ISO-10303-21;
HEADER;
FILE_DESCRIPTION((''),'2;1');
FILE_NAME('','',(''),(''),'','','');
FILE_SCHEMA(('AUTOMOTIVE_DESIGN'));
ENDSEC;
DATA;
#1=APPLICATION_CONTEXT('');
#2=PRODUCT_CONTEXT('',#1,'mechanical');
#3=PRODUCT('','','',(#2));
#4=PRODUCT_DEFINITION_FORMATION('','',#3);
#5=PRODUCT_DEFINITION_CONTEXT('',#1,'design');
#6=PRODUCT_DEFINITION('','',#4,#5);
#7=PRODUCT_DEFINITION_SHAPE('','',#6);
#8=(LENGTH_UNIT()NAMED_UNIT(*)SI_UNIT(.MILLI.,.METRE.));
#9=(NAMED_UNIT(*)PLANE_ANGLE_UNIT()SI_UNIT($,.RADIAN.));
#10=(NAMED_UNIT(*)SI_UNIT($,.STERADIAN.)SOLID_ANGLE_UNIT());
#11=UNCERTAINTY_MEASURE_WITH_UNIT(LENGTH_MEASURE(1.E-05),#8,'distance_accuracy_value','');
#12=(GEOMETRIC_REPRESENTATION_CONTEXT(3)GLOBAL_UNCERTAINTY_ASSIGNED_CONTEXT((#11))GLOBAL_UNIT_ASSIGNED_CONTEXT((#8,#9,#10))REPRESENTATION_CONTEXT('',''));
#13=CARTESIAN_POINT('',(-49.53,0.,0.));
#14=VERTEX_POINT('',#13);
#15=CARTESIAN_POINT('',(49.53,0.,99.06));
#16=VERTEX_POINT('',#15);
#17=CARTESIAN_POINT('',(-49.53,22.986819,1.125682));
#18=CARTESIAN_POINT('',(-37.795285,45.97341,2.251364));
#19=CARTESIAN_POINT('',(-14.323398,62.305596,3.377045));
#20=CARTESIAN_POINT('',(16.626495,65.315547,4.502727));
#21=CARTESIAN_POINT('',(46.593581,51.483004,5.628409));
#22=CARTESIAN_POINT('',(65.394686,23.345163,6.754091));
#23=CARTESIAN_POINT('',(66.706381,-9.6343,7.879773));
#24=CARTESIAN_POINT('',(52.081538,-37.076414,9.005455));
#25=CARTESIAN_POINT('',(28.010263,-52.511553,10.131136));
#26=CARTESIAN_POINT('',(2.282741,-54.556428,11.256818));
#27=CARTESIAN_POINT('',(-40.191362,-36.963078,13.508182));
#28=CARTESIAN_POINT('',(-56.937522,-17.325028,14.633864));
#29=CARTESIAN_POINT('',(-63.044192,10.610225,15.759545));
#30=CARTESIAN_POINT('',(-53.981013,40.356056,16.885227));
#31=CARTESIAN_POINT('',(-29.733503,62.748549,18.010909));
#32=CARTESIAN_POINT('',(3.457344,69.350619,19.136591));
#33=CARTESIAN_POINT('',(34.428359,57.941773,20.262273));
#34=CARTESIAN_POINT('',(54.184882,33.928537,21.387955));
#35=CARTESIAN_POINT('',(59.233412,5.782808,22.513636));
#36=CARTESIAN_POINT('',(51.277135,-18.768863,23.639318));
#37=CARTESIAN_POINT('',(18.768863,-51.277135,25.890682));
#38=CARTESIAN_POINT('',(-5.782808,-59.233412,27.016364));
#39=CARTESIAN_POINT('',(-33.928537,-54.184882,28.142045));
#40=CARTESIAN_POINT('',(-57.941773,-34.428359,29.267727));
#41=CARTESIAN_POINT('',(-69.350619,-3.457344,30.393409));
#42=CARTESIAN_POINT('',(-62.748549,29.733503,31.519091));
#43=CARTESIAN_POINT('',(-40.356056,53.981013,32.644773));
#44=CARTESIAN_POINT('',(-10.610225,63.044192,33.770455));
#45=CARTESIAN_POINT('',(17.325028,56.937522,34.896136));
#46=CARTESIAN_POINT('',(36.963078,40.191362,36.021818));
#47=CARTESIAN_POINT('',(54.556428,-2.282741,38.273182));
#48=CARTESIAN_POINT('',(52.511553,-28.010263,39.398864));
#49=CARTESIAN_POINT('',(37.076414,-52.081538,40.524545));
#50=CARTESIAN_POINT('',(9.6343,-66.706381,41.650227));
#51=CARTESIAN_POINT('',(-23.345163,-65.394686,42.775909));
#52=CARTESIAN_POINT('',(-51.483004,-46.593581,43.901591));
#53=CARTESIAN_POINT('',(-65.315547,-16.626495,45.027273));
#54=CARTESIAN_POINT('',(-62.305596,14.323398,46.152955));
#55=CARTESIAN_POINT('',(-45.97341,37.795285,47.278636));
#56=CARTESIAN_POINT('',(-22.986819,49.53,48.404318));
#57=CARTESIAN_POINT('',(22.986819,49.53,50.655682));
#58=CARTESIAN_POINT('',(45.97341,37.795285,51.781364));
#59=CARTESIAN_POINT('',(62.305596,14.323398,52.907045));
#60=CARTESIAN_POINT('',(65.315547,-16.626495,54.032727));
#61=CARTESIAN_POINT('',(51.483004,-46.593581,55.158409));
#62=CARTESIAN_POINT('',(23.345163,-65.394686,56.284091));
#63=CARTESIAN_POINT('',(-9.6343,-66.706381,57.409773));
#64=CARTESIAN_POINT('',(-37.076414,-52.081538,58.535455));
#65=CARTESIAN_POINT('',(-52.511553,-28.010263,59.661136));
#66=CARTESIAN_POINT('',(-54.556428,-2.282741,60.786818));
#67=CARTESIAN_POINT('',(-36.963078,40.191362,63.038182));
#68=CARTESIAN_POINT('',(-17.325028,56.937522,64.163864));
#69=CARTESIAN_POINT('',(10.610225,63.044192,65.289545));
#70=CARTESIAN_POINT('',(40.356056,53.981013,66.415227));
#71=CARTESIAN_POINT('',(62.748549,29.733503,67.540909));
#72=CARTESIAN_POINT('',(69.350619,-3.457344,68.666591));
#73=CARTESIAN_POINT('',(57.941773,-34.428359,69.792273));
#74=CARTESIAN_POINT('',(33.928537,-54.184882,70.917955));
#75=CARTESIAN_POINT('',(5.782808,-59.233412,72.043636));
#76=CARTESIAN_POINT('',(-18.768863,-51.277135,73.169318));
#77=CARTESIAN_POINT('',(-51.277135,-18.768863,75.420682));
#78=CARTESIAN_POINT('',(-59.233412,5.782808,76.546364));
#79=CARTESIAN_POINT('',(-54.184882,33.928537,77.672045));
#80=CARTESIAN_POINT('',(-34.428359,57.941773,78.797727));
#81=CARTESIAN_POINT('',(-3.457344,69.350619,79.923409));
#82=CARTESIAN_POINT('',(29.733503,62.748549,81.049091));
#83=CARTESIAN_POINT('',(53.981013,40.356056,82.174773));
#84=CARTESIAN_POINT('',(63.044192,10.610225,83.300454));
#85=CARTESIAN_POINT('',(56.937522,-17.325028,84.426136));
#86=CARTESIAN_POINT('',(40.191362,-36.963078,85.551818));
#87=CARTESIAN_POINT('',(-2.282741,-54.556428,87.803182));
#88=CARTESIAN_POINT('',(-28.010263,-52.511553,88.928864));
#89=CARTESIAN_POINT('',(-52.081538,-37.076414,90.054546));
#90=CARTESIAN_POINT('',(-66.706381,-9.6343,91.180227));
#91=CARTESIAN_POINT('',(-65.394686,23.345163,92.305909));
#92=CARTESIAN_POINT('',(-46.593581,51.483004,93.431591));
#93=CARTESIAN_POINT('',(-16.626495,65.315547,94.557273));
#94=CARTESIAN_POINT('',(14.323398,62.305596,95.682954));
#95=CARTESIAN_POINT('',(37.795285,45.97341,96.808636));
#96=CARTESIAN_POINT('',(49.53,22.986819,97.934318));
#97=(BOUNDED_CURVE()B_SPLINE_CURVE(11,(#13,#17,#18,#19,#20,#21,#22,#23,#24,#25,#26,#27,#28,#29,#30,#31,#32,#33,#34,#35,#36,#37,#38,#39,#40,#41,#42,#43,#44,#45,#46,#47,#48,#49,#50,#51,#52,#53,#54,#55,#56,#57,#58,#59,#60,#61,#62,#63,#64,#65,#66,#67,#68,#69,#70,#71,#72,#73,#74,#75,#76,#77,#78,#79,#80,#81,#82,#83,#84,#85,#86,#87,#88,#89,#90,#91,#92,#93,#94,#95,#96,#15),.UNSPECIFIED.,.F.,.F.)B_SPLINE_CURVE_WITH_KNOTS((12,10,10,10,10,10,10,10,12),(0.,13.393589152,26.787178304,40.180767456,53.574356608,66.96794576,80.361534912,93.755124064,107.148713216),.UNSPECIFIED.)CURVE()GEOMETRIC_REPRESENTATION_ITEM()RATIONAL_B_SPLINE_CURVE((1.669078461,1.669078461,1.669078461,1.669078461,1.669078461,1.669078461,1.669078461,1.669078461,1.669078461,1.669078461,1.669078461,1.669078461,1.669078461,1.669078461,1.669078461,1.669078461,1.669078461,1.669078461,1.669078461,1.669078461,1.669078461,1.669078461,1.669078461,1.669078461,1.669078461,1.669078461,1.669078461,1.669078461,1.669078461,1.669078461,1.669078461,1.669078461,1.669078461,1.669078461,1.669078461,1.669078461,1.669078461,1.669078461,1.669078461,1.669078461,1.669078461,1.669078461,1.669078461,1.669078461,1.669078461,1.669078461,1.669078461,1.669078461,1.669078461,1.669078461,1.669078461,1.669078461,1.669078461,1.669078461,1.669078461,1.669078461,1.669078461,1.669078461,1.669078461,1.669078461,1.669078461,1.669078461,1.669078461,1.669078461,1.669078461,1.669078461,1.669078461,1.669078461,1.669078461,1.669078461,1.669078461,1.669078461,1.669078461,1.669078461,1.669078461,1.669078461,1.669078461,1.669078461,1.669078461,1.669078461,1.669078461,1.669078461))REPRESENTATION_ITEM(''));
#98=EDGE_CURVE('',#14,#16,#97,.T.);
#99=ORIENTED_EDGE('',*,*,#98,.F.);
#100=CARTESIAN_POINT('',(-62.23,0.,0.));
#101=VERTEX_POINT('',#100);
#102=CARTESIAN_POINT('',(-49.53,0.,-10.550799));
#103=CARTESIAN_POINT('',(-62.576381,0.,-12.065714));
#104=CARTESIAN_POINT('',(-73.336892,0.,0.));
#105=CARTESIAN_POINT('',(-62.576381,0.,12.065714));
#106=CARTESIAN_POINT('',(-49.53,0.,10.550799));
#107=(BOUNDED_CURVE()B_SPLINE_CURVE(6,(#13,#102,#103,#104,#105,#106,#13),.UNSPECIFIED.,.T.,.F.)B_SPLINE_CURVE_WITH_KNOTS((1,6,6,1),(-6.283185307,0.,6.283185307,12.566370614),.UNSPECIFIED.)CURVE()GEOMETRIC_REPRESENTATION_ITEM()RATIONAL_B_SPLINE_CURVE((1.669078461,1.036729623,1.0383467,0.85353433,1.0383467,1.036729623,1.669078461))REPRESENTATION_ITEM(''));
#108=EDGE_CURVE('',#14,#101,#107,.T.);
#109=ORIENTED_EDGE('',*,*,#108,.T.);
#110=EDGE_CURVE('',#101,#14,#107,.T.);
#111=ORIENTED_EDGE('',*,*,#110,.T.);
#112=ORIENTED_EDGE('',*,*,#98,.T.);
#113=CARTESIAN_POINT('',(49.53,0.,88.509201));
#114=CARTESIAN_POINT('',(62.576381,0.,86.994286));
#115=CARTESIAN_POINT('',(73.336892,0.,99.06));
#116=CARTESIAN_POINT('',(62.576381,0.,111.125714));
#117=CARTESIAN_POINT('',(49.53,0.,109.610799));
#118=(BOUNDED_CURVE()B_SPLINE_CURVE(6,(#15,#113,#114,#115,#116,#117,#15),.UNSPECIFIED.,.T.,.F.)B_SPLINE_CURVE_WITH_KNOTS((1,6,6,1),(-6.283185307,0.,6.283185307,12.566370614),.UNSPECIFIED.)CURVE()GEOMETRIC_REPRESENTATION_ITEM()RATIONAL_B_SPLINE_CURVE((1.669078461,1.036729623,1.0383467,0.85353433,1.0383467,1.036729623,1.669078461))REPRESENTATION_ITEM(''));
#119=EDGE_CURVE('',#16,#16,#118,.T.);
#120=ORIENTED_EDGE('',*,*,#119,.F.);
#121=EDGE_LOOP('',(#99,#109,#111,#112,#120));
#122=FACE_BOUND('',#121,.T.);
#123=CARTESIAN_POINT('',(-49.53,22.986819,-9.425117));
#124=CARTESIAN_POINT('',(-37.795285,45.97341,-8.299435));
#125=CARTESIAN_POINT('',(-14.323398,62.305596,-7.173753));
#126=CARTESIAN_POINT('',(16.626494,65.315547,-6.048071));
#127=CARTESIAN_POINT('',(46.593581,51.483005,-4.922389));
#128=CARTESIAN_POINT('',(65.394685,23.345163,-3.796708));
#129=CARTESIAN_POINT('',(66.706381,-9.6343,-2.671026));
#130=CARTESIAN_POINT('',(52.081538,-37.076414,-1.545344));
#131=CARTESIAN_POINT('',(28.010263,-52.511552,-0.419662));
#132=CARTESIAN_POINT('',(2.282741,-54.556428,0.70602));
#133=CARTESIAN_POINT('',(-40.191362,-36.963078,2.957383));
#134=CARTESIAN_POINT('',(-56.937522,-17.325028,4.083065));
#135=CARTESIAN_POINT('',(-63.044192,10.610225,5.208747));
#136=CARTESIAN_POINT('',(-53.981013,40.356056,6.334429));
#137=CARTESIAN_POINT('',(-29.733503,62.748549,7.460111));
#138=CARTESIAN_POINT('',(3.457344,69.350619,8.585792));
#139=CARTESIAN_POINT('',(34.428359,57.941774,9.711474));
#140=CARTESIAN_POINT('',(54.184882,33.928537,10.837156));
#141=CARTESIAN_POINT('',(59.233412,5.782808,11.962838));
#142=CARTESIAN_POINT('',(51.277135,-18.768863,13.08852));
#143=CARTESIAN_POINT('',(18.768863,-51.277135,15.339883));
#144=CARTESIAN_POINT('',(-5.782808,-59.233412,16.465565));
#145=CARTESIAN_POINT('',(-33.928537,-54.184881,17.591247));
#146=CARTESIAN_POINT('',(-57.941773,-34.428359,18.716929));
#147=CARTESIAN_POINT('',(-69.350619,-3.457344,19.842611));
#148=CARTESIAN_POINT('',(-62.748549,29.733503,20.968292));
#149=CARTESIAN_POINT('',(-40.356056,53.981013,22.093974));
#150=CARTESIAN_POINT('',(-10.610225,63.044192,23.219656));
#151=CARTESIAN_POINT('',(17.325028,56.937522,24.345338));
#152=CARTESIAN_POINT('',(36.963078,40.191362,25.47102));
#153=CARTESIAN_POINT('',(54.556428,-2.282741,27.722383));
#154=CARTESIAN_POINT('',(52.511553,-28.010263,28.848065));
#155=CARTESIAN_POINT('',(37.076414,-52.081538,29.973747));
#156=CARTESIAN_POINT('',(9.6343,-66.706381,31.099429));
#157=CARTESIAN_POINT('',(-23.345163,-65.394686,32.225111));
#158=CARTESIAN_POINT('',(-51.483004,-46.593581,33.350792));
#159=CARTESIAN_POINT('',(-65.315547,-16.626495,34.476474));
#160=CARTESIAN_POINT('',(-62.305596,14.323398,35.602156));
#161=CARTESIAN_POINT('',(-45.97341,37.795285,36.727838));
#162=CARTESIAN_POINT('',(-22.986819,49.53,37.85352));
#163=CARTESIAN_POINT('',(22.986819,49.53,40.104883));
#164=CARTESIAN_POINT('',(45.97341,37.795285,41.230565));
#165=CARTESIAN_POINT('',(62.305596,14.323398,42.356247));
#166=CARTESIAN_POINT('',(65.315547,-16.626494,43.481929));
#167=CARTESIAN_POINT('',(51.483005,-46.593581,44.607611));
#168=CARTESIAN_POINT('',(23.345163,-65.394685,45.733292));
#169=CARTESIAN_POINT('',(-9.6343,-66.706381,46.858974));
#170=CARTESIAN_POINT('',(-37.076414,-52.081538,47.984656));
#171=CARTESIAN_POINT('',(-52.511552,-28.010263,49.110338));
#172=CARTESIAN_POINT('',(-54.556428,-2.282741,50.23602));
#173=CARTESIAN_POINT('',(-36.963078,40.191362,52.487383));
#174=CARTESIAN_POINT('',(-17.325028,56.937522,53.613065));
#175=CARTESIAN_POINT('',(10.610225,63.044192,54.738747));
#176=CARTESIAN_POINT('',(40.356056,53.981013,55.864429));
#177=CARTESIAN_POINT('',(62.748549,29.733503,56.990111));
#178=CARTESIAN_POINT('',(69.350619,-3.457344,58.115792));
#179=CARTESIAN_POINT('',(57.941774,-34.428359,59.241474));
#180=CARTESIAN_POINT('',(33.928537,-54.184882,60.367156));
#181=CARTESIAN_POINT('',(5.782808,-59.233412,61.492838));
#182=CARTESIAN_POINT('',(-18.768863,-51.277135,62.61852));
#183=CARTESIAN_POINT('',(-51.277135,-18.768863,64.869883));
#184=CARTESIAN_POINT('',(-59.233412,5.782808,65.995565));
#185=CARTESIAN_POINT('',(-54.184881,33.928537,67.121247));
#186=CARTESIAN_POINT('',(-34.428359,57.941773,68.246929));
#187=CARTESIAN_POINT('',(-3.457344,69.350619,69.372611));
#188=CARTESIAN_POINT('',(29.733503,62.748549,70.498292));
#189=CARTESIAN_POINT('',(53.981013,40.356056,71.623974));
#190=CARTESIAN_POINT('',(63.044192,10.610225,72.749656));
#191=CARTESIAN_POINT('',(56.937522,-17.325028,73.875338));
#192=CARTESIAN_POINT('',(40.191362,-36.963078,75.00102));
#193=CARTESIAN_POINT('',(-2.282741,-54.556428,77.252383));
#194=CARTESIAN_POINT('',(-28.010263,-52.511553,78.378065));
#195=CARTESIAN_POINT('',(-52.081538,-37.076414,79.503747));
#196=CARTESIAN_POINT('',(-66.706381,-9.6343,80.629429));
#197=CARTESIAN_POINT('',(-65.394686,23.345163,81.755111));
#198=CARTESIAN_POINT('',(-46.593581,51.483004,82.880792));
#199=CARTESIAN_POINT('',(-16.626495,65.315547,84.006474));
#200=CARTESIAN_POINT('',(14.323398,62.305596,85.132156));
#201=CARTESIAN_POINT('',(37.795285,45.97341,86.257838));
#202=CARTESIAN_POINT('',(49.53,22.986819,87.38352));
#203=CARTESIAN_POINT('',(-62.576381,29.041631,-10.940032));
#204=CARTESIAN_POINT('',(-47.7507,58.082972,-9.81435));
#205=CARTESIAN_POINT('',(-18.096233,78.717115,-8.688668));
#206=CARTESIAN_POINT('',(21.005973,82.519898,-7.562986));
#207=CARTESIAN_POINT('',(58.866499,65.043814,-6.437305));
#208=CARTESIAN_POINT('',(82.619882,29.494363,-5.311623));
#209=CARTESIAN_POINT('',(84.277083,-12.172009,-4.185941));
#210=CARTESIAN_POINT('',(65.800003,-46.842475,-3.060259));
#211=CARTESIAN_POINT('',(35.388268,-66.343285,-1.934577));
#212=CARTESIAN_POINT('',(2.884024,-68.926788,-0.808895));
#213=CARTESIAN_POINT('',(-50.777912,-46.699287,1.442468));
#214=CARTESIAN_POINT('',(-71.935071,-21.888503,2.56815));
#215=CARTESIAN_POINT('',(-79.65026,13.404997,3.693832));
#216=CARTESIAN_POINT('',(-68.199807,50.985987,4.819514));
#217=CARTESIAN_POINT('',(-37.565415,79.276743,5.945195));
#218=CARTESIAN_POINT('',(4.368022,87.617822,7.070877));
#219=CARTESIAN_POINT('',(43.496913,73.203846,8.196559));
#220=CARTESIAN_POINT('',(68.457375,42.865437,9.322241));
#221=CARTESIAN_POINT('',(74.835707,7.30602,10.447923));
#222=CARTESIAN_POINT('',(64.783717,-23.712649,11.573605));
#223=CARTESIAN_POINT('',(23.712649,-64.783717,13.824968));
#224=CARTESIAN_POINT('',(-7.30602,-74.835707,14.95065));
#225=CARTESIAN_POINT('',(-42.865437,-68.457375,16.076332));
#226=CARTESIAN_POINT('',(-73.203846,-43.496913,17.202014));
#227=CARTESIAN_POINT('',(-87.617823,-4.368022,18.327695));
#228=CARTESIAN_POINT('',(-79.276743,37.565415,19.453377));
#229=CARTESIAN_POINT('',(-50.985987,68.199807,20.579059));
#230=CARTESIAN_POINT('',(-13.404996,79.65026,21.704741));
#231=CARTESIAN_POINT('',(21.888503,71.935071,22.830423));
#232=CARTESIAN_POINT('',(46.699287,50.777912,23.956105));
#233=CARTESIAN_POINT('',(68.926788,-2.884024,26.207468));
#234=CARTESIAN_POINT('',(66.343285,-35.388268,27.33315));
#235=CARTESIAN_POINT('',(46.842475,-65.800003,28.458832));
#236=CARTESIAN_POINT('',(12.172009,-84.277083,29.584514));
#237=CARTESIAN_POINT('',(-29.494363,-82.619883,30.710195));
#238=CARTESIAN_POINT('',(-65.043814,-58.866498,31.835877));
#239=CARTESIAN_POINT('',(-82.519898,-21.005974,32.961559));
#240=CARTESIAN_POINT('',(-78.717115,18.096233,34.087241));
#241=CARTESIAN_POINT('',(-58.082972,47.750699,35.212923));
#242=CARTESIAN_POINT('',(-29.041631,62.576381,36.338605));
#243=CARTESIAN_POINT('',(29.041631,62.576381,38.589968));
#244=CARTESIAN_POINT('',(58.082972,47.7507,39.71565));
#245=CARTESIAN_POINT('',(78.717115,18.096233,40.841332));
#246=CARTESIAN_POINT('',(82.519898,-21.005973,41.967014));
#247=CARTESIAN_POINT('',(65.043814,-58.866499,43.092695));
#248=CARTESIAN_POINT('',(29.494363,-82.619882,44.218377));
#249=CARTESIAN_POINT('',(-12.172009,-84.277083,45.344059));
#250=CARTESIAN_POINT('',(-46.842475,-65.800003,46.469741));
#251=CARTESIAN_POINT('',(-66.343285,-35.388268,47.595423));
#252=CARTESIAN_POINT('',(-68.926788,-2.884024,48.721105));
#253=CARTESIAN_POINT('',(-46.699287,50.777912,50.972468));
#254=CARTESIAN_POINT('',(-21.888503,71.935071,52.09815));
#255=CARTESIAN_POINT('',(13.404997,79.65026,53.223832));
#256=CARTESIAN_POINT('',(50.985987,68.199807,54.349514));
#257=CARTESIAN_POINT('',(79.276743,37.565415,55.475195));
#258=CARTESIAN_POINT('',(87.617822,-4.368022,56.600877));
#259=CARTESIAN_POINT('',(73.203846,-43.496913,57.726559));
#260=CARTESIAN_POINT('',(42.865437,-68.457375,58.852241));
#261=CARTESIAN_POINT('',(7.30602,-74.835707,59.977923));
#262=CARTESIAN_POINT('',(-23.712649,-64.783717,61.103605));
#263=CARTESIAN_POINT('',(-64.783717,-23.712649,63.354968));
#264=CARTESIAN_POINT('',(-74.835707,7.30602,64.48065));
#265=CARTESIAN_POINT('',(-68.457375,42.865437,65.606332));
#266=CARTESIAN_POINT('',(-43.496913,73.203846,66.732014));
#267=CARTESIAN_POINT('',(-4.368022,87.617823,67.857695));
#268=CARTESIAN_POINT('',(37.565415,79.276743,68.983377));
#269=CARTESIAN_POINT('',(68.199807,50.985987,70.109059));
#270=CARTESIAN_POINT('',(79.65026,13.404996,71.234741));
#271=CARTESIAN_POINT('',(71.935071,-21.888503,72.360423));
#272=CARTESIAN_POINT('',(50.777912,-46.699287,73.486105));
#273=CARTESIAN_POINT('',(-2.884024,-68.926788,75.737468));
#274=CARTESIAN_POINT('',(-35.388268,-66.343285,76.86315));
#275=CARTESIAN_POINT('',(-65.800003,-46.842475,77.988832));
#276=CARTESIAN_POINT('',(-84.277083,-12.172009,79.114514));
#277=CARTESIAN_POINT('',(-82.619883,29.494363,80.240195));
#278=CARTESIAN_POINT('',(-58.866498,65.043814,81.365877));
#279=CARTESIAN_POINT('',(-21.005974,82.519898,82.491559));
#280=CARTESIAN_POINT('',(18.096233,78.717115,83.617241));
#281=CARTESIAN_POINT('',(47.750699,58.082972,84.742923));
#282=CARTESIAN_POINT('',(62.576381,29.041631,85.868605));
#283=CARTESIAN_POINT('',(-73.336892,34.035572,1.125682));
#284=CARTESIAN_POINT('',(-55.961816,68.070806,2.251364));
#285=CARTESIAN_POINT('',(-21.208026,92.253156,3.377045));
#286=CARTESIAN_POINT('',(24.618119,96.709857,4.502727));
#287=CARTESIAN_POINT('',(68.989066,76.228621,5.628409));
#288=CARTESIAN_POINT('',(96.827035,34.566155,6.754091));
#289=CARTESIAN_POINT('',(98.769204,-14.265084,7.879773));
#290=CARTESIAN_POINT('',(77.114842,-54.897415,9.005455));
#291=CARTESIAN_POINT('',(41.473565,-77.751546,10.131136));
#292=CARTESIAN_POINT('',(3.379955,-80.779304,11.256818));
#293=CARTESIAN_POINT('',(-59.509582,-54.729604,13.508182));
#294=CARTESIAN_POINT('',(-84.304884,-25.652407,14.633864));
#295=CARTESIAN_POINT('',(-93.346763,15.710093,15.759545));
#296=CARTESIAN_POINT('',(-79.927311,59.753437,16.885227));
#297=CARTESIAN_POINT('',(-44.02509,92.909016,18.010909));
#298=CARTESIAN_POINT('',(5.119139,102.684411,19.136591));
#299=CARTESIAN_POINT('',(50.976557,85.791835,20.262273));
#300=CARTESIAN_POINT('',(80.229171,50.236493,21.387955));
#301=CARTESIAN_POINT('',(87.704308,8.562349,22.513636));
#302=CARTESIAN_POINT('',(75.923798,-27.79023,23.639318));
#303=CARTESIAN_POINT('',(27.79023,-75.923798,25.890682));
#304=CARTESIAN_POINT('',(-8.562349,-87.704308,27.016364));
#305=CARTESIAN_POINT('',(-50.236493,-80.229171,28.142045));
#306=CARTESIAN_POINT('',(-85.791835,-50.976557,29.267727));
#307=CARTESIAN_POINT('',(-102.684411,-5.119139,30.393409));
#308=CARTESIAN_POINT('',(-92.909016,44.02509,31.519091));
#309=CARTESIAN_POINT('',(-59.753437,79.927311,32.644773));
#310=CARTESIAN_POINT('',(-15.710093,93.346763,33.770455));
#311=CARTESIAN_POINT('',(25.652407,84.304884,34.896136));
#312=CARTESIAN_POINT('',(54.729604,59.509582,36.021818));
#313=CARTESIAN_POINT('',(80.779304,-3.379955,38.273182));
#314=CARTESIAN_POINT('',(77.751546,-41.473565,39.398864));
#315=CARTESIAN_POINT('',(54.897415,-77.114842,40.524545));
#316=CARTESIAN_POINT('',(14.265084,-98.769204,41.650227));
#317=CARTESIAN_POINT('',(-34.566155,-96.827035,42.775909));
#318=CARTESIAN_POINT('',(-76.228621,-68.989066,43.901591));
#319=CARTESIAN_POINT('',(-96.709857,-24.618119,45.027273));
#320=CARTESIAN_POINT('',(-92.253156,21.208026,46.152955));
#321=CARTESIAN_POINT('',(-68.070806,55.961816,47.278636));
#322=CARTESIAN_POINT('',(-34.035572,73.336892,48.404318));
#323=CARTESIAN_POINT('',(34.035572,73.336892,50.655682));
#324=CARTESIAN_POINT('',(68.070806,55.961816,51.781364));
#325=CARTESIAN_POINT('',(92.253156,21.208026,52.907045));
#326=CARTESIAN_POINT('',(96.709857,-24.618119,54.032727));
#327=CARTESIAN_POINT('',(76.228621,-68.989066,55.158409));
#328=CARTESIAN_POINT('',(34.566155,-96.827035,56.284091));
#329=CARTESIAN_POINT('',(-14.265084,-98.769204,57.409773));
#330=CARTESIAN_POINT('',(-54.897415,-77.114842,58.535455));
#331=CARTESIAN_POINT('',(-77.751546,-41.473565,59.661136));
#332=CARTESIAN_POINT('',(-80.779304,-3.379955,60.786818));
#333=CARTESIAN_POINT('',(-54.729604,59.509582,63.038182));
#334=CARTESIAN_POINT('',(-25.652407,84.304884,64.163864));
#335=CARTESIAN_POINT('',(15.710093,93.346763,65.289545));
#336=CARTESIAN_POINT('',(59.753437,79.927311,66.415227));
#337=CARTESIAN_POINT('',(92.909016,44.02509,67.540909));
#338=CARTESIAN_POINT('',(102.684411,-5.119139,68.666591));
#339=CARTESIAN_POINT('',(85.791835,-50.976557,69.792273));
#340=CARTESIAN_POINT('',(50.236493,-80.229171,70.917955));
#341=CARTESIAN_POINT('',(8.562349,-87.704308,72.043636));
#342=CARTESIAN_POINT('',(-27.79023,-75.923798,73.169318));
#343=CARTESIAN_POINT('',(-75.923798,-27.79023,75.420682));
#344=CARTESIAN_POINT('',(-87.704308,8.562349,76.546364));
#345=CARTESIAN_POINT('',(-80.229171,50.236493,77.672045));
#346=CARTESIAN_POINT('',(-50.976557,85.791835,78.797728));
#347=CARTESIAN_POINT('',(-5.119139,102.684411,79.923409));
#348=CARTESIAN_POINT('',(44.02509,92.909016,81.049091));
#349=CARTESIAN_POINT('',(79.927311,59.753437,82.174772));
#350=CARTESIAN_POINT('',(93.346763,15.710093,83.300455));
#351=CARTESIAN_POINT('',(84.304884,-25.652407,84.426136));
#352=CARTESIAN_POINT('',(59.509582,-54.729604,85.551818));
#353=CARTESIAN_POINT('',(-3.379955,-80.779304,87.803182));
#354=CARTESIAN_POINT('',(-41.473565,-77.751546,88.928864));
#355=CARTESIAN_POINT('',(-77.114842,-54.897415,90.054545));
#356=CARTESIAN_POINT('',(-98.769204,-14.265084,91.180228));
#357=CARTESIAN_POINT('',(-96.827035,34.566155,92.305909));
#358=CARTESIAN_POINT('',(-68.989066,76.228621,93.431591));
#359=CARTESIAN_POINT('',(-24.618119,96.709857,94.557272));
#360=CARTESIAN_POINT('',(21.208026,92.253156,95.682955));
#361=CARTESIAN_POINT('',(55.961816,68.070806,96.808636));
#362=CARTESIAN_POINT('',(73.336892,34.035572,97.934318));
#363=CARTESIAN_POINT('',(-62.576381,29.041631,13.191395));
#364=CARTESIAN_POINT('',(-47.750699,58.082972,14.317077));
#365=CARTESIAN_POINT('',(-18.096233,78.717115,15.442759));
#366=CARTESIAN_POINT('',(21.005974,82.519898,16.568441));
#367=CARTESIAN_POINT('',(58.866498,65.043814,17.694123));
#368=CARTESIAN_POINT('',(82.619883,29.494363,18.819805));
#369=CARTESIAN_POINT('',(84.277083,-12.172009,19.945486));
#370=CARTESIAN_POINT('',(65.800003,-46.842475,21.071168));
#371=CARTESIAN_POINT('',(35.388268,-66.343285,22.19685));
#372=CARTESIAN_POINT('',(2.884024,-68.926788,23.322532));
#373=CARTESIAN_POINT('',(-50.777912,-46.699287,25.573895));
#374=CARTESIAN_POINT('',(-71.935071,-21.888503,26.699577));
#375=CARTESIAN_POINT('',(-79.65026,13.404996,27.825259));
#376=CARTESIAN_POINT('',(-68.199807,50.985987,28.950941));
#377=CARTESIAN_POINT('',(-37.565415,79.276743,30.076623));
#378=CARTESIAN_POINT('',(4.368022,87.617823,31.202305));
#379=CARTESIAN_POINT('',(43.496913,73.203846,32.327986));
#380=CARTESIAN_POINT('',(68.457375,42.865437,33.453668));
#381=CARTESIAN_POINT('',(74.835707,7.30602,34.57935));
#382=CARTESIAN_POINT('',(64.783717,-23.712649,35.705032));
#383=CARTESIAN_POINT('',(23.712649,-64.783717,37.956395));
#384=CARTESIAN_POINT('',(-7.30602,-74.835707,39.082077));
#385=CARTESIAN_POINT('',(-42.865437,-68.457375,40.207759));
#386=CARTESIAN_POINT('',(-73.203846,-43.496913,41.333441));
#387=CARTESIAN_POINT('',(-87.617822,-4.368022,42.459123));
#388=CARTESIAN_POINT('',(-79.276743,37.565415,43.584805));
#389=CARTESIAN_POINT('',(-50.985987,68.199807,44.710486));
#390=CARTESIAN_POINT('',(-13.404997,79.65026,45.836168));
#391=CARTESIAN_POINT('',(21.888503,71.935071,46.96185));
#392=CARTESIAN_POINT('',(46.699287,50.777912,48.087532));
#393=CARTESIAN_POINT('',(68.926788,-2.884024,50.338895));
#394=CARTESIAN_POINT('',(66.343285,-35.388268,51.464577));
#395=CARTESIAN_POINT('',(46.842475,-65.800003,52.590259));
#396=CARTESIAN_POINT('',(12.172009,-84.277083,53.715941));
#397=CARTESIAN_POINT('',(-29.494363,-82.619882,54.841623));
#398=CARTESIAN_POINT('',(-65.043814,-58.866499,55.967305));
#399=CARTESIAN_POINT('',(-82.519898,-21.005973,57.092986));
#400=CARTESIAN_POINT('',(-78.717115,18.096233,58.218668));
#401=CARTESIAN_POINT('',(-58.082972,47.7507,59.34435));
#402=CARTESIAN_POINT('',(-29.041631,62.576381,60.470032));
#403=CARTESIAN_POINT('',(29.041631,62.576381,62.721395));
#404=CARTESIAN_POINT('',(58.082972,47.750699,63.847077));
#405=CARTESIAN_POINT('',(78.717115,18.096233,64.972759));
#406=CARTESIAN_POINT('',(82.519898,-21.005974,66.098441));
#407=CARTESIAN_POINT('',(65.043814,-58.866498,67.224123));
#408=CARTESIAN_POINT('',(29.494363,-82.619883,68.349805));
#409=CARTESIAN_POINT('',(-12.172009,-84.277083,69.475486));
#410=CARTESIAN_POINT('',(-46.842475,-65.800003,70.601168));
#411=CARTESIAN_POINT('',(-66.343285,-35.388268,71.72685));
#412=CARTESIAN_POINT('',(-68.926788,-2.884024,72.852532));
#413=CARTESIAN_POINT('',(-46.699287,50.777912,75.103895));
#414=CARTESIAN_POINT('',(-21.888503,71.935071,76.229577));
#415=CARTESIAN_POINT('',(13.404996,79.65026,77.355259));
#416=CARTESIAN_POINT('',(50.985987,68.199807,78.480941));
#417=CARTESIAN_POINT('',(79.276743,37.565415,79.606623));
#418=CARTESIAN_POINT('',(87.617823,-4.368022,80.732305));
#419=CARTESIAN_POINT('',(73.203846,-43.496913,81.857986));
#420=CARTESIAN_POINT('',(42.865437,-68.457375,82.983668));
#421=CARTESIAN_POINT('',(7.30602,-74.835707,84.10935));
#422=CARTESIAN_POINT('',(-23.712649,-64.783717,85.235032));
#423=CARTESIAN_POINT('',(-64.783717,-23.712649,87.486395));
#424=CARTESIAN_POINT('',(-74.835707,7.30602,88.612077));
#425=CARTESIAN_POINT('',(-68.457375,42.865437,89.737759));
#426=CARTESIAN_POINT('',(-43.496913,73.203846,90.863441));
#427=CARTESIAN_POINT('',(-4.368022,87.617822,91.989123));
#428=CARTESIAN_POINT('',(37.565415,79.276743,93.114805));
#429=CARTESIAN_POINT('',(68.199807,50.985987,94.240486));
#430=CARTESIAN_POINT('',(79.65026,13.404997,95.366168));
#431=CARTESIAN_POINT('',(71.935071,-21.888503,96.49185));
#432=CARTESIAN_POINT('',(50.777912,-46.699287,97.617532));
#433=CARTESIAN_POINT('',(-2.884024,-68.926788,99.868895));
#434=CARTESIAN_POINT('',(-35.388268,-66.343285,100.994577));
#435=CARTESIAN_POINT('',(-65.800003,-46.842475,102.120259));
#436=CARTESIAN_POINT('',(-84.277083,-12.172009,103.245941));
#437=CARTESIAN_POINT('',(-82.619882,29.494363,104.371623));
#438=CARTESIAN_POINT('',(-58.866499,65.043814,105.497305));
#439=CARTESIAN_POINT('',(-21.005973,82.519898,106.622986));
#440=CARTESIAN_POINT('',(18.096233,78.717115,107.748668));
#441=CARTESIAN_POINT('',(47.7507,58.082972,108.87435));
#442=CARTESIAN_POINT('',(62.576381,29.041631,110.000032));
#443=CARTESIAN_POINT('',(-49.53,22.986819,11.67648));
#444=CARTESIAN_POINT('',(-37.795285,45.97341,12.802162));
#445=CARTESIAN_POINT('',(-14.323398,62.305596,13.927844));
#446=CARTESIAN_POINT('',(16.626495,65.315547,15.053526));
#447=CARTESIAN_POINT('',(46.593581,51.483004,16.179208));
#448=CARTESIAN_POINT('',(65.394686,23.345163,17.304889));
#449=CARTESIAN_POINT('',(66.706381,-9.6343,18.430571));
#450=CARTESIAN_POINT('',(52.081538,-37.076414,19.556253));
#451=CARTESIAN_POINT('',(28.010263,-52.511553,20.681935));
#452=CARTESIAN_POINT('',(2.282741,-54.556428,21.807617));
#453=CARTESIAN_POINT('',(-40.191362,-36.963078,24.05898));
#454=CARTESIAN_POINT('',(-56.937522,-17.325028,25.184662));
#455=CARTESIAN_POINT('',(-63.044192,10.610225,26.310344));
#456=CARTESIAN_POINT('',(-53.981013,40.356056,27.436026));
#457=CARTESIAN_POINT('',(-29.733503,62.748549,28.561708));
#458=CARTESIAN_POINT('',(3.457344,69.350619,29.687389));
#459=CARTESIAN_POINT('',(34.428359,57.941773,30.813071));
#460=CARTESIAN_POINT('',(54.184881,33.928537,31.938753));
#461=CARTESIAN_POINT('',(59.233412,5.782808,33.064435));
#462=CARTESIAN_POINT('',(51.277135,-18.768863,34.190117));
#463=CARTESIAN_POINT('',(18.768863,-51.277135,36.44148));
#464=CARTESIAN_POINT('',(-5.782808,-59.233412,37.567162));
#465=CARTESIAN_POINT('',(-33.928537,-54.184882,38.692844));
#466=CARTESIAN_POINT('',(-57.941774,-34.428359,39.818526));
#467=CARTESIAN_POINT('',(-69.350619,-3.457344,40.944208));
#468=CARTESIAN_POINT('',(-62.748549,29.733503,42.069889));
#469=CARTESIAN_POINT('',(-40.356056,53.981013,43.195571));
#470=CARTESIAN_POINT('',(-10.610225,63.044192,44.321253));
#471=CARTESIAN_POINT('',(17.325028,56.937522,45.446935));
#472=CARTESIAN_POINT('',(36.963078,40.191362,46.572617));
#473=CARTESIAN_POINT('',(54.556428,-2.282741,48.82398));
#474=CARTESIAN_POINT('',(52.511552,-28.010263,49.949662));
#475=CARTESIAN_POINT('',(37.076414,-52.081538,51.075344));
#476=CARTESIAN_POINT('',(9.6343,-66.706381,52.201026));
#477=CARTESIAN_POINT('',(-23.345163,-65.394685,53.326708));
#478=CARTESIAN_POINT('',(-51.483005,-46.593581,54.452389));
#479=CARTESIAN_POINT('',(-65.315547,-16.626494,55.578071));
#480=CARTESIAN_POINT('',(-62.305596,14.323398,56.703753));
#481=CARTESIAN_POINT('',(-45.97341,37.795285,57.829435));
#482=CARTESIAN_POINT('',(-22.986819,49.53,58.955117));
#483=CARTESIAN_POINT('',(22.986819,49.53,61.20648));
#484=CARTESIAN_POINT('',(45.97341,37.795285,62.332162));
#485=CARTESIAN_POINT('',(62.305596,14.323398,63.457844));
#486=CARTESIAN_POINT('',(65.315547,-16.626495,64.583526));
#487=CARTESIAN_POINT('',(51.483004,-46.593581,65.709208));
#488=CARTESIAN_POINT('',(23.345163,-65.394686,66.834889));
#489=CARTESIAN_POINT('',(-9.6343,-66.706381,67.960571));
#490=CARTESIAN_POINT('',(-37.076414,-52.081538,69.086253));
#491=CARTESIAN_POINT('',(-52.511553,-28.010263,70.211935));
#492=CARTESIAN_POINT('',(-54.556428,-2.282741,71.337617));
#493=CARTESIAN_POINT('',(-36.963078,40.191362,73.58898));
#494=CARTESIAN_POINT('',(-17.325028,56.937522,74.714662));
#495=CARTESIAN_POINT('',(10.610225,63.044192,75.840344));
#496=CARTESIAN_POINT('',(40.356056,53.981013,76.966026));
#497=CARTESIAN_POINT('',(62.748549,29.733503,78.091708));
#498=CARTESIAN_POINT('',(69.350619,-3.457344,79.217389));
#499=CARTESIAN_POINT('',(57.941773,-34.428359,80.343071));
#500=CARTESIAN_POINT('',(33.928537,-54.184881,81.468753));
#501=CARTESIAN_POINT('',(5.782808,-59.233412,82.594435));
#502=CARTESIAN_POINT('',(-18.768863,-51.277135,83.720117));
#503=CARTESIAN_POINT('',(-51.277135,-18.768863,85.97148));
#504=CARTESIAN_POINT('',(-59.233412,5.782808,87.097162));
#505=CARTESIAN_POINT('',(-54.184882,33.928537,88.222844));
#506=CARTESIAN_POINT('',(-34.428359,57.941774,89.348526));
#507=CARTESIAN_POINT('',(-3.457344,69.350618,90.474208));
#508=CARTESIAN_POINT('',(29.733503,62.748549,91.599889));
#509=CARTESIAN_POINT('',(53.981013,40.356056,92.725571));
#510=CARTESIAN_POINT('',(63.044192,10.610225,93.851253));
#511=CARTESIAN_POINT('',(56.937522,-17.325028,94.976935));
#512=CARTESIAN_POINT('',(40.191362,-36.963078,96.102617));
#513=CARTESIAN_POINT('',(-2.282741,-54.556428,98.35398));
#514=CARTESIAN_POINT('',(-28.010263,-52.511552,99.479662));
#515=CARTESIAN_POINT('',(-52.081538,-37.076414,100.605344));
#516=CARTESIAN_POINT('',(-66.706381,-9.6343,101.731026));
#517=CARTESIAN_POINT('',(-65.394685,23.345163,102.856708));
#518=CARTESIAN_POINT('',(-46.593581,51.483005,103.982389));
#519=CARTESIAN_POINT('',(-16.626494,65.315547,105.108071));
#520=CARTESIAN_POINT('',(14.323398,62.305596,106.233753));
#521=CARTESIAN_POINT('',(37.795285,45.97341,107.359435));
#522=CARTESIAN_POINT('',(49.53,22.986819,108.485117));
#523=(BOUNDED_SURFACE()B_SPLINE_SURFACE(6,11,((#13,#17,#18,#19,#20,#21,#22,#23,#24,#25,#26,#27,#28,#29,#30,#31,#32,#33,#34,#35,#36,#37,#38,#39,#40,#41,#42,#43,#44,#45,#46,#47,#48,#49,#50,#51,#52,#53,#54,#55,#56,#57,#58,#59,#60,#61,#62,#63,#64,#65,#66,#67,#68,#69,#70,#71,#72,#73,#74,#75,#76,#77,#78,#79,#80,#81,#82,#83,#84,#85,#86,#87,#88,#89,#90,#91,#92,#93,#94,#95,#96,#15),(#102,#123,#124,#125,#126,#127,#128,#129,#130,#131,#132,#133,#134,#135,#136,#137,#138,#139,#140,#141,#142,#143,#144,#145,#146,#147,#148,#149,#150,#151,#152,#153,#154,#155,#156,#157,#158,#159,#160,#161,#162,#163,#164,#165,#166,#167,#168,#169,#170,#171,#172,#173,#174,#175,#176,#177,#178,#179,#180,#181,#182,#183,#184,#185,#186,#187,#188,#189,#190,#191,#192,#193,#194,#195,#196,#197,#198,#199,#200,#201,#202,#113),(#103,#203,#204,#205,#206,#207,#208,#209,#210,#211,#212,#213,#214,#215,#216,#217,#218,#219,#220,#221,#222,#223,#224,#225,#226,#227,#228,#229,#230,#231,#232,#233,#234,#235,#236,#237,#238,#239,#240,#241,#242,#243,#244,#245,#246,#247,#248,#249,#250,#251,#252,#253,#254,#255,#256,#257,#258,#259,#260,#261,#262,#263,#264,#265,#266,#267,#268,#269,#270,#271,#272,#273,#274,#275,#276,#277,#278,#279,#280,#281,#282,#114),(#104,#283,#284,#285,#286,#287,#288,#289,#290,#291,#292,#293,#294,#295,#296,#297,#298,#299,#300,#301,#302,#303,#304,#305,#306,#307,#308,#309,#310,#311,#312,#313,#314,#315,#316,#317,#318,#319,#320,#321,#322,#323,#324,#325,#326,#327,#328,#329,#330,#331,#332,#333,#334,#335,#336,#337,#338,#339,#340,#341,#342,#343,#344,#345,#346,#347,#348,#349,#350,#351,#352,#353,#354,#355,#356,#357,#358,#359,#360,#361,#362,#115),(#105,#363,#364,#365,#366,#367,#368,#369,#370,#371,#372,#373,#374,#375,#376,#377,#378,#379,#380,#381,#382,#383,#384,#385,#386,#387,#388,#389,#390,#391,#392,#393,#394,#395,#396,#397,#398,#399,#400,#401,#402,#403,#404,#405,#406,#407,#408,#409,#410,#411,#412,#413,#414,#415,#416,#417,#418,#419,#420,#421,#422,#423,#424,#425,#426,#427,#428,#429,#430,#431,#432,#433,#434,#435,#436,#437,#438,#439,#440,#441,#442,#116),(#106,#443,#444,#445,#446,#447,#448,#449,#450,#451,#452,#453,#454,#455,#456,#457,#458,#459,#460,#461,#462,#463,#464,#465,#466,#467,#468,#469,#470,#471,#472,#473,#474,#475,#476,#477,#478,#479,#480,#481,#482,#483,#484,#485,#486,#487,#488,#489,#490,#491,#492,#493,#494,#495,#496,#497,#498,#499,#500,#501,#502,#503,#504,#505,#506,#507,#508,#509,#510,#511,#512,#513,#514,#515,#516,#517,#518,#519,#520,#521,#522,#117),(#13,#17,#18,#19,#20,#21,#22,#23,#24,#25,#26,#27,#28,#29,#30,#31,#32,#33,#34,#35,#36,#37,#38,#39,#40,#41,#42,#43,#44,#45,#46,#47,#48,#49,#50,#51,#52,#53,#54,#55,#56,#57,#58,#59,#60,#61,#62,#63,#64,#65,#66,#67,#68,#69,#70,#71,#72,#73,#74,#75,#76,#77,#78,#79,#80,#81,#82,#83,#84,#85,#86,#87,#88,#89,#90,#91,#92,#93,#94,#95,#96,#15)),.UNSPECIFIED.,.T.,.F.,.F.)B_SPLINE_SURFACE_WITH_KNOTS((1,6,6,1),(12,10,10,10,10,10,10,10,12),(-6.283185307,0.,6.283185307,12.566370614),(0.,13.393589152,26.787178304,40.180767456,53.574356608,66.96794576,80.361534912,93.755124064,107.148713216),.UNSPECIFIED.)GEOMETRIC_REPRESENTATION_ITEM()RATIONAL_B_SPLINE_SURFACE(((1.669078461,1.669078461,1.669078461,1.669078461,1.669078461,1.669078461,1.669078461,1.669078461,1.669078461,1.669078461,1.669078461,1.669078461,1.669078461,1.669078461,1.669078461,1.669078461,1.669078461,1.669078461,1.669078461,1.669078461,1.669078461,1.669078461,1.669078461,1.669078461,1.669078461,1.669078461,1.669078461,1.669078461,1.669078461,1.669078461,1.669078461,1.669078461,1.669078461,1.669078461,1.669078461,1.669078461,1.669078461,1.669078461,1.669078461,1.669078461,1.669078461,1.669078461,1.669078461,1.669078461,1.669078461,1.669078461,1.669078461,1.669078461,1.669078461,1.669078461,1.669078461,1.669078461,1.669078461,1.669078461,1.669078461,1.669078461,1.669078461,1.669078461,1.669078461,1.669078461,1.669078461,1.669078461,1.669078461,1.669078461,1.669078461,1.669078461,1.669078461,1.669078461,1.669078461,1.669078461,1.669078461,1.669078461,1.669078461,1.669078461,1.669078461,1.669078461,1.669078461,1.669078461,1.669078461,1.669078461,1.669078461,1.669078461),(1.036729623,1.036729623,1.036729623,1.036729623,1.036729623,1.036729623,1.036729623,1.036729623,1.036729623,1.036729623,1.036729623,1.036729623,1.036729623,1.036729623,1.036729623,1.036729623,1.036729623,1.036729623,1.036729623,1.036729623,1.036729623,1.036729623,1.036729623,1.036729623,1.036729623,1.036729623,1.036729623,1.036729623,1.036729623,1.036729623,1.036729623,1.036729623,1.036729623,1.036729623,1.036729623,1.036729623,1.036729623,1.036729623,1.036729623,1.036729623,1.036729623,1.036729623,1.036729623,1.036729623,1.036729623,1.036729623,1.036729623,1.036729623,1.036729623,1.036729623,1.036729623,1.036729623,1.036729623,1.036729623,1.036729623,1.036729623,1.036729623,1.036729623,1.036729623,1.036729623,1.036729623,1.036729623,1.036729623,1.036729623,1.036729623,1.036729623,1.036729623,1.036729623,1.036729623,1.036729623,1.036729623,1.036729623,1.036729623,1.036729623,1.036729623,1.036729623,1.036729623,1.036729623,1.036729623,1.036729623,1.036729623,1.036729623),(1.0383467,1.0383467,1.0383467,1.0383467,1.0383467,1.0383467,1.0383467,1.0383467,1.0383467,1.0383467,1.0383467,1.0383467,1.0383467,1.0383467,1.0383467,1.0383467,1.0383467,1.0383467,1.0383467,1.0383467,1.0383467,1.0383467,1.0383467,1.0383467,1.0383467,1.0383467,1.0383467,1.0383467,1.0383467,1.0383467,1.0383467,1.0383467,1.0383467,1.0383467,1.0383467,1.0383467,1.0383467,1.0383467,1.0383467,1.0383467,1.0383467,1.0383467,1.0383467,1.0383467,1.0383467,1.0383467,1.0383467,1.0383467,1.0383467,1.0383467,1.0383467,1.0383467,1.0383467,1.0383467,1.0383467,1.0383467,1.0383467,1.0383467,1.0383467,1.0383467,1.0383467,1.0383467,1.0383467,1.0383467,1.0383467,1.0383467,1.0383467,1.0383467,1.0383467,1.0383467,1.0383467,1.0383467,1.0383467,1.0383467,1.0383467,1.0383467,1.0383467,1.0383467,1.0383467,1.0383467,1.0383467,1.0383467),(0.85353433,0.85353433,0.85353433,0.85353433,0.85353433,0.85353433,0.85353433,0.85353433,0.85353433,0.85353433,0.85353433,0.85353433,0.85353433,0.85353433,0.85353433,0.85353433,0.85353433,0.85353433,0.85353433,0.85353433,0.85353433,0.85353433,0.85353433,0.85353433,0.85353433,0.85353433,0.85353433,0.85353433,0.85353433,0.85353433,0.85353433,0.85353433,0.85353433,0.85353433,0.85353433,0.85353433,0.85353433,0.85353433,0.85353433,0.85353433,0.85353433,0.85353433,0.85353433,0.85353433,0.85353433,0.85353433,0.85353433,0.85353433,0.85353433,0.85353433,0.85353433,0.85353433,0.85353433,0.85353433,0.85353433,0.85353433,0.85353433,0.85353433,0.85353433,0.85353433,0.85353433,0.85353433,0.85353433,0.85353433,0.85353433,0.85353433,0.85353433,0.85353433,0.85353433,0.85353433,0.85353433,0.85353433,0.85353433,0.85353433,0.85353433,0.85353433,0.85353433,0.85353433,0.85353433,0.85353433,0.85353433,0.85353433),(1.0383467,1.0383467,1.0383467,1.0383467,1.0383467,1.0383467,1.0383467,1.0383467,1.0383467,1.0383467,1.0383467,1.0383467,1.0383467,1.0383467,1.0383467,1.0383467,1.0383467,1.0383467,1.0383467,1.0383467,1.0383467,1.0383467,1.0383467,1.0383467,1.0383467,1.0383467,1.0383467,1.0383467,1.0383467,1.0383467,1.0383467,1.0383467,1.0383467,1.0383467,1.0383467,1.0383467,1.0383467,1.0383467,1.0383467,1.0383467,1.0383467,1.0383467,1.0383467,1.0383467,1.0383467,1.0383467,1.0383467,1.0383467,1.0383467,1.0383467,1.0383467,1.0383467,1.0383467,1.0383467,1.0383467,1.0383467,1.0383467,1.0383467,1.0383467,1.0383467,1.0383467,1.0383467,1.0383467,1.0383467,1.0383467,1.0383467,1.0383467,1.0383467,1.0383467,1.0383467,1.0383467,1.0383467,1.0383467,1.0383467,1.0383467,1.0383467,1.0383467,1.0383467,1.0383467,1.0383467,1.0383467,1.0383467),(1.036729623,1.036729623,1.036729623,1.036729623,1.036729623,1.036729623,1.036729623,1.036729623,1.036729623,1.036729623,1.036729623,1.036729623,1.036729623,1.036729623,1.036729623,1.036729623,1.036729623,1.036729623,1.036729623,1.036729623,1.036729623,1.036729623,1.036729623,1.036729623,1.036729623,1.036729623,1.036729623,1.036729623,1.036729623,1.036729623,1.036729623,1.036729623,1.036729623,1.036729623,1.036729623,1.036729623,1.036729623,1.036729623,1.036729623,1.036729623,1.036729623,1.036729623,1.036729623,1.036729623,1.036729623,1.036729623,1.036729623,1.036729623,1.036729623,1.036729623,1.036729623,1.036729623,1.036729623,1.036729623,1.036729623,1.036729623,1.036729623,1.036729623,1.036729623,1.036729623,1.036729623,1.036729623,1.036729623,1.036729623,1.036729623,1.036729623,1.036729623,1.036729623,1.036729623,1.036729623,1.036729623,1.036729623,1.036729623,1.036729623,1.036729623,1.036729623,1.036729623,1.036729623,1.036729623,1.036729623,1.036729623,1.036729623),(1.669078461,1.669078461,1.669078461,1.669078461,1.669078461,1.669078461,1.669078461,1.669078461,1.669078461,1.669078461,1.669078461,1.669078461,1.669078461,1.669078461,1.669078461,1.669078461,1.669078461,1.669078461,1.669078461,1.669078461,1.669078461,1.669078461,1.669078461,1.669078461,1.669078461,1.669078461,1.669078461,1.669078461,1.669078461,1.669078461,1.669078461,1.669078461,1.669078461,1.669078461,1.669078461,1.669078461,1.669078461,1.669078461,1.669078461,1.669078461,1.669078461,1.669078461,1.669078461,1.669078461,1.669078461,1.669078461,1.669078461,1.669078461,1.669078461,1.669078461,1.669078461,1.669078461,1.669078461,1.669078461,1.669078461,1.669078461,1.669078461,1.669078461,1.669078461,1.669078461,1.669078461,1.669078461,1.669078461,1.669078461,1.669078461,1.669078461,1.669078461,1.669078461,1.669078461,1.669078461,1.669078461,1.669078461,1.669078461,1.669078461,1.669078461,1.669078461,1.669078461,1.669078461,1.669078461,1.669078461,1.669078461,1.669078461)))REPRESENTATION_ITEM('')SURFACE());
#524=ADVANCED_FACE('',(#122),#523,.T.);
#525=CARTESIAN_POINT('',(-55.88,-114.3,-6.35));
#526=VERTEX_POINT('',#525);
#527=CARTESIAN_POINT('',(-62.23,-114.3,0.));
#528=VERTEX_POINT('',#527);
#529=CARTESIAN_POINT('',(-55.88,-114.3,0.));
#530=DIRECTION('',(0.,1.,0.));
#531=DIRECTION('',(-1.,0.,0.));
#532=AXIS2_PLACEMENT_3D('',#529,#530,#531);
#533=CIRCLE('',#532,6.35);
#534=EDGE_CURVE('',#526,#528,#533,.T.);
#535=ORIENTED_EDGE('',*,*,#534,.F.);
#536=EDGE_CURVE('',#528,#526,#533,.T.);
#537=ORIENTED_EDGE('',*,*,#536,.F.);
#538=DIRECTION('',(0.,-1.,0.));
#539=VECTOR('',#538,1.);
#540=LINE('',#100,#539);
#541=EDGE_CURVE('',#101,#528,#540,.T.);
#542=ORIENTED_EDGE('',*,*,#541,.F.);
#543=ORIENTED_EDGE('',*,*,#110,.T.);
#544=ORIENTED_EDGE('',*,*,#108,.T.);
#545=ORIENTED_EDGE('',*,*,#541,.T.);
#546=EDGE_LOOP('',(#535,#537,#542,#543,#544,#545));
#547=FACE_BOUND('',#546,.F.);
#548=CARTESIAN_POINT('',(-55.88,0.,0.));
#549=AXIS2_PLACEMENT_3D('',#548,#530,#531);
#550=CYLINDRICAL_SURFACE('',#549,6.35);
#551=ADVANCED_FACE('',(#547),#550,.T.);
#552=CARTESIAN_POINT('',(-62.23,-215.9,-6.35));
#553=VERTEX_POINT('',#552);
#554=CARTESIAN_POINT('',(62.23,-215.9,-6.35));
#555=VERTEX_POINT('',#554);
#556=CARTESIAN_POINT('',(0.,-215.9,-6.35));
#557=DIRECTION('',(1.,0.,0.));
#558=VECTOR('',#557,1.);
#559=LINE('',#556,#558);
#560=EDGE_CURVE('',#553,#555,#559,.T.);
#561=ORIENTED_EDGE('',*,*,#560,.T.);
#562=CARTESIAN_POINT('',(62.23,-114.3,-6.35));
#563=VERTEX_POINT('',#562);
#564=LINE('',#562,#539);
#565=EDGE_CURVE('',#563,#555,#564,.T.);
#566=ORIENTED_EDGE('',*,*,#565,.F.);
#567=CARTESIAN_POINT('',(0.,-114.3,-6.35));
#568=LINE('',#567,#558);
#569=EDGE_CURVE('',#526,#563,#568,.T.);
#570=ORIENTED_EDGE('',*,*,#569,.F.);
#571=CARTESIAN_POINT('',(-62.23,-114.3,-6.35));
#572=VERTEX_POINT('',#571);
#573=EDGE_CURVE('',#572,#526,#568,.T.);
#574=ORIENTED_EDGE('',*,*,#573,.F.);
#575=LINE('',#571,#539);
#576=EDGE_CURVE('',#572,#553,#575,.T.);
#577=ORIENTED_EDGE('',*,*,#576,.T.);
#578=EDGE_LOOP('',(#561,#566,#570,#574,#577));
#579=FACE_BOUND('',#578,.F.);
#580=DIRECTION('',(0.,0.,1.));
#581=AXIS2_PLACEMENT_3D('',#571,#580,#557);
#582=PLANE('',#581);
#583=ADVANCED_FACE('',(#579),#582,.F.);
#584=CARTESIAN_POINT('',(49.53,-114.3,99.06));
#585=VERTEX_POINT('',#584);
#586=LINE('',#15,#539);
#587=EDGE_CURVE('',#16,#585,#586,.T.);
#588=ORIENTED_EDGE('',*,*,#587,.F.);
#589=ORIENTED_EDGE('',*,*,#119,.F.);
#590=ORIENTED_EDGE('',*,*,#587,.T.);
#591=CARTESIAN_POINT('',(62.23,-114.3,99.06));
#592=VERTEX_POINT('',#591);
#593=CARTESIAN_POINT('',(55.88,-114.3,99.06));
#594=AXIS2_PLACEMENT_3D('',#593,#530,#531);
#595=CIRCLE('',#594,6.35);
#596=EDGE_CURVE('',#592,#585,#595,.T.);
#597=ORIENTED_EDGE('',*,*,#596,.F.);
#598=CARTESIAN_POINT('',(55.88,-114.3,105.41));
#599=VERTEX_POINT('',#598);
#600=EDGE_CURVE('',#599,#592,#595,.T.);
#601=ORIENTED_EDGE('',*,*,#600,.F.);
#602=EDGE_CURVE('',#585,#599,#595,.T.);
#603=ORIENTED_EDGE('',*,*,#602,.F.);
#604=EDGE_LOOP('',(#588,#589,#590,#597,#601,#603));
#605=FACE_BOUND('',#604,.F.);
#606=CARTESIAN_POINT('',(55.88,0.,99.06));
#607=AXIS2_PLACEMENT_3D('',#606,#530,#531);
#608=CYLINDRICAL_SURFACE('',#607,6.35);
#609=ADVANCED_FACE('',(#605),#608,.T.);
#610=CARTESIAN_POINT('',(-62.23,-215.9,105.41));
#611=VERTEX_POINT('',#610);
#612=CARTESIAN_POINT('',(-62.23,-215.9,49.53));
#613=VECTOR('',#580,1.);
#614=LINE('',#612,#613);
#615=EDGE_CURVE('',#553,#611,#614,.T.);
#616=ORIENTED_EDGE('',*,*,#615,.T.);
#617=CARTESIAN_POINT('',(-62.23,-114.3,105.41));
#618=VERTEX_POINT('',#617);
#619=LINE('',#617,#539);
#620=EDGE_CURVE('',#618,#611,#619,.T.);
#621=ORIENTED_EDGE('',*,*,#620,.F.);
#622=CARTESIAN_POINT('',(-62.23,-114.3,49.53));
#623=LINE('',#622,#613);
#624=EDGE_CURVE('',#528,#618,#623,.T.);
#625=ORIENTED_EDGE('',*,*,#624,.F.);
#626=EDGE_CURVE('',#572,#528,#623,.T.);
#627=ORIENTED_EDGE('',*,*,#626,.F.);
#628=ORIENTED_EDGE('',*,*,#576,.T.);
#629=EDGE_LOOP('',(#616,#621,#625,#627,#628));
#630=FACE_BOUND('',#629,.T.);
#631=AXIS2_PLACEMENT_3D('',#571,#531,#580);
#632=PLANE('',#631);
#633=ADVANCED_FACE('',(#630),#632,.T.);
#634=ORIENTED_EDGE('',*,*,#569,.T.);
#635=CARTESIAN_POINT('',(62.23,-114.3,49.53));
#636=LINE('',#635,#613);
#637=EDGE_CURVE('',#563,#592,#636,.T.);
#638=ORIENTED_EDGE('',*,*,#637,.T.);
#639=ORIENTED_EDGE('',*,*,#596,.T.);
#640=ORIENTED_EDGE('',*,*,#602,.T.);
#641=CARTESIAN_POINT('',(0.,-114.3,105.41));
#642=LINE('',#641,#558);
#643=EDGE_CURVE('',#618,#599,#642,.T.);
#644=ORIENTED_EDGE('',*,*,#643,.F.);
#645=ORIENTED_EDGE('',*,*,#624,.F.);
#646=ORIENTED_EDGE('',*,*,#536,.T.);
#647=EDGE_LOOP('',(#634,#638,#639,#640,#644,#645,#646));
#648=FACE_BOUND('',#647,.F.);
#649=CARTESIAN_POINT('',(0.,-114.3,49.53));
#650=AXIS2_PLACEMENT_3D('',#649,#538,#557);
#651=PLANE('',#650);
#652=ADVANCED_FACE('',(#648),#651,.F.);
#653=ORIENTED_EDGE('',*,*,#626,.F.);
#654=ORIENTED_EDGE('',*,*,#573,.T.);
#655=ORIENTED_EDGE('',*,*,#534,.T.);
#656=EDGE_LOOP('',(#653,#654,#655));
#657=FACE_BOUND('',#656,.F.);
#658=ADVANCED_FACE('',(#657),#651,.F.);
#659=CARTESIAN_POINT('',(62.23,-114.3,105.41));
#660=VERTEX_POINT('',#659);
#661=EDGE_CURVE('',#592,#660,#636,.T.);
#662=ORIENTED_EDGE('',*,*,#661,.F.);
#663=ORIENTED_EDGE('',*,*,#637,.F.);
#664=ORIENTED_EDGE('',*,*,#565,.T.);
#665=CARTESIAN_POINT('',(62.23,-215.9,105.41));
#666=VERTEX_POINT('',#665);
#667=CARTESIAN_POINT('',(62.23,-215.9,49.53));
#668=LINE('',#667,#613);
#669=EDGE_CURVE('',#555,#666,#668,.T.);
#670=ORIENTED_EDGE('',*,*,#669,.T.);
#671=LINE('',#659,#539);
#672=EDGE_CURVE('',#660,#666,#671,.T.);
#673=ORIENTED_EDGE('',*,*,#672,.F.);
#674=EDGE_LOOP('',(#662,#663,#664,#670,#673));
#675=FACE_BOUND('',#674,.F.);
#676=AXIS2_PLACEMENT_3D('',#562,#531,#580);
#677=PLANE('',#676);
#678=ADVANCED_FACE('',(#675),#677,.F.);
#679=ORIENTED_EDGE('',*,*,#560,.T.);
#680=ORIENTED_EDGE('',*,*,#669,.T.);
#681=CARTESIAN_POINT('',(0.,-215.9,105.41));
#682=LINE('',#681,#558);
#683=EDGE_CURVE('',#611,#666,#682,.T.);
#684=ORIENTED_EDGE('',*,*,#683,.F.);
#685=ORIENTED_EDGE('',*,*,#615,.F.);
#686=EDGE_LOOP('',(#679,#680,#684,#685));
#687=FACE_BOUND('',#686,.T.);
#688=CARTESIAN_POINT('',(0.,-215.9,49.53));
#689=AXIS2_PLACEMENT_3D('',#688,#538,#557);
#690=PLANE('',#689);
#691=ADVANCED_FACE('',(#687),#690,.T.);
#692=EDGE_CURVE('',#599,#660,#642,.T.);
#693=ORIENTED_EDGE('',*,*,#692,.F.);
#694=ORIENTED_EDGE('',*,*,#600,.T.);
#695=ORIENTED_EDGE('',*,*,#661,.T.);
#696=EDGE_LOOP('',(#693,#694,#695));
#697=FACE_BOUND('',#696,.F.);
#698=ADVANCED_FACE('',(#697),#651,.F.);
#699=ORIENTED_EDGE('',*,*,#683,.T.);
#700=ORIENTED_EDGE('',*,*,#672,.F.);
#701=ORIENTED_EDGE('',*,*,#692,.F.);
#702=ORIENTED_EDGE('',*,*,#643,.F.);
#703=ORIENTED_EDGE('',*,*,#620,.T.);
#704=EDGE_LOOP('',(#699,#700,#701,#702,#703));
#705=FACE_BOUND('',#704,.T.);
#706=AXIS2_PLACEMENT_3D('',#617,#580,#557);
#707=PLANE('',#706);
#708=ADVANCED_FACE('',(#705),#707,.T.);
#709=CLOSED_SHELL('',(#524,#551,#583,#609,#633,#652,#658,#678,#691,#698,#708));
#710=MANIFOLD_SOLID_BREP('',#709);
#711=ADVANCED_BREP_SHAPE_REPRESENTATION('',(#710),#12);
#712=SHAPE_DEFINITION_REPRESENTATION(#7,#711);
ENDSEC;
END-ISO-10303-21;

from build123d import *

# Parameters (mm, degrees)
SWEEP1_PITCH             = 15.24
SWEEP1_HEIGHT            = 99.06
SWEEP1_RADIUS            = 55.88
SWEEP1_START_ANGLE       = -180
SKETCH2_R                = 6.35
SKETCH3_R                = 6.35
BOSS_EXTRUDE1_DEPTH      = 152.4
BOSS_EXTRUDE2_DEPTH      = 63.5
BOSS_EXTRUDE2_DEPTH_BACK = 38.1
SKETCH4_W                = 124.46
SKETCH4_H                = 111.76


with BuildPart() as part:
    # Sweep1: sweep along a helix
    with BuildLine() as sweep1_path:
        add(Helix(SWEEP1_PITCH, SWEEP1_HEIGHT, SWEEP1_RADIUS, center=(0, 0, 0), direction=(0, 0, 1), lefthand=True, mode=Mode.PRIVATE).rotate(Axis((0, 0, 0), (0, 0, 1)), SWEEP1_START_ANGLE))
    # Sketch2 → Sweep1 (sweep)
    with BuildSketch(Plane(origin=(0, 0, 0), x_dir=(1, 0, 0), z_dir=(0, 1, 0))):
        with Locations((-55.88, 0)):
            Circle(SKETCH2_R)
    sweep(path=sweep1_path.line, is_frenet=True)

    # Sketch3 → Boss-Extrude1 (add)
    with BuildSketch(Plane.XZ):
        with Locations(Location((55.88, 99.06, 0), (0, 0, 180))):
            Circle(SKETCH3_R)
        with Locations(Location((-55.88, 0, 0), (0, 0, 180))):
            Circle(SKETCH3_R)
    extrude(amount=BOSS_EXTRUDE1_DEPTH)

    # Sketch4 → Boss-Extrude2 (add, two sides: drawn at the far end of the back side and taken through both)
    with BuildSketch(Plane.XZ.offset(152.4).offset(-BOSS_EXTRUDE2_DEPTH_BACK)):
        with Locations((0, 49.53)):
            Rectangle(SKETCH4_W, SKETCH4_H)
    extrude(amount=BOSS_EXTRUDE2_DEPTH + BOSS_EXTRUDE2_DEPTH_BACK)


solid = part.part
